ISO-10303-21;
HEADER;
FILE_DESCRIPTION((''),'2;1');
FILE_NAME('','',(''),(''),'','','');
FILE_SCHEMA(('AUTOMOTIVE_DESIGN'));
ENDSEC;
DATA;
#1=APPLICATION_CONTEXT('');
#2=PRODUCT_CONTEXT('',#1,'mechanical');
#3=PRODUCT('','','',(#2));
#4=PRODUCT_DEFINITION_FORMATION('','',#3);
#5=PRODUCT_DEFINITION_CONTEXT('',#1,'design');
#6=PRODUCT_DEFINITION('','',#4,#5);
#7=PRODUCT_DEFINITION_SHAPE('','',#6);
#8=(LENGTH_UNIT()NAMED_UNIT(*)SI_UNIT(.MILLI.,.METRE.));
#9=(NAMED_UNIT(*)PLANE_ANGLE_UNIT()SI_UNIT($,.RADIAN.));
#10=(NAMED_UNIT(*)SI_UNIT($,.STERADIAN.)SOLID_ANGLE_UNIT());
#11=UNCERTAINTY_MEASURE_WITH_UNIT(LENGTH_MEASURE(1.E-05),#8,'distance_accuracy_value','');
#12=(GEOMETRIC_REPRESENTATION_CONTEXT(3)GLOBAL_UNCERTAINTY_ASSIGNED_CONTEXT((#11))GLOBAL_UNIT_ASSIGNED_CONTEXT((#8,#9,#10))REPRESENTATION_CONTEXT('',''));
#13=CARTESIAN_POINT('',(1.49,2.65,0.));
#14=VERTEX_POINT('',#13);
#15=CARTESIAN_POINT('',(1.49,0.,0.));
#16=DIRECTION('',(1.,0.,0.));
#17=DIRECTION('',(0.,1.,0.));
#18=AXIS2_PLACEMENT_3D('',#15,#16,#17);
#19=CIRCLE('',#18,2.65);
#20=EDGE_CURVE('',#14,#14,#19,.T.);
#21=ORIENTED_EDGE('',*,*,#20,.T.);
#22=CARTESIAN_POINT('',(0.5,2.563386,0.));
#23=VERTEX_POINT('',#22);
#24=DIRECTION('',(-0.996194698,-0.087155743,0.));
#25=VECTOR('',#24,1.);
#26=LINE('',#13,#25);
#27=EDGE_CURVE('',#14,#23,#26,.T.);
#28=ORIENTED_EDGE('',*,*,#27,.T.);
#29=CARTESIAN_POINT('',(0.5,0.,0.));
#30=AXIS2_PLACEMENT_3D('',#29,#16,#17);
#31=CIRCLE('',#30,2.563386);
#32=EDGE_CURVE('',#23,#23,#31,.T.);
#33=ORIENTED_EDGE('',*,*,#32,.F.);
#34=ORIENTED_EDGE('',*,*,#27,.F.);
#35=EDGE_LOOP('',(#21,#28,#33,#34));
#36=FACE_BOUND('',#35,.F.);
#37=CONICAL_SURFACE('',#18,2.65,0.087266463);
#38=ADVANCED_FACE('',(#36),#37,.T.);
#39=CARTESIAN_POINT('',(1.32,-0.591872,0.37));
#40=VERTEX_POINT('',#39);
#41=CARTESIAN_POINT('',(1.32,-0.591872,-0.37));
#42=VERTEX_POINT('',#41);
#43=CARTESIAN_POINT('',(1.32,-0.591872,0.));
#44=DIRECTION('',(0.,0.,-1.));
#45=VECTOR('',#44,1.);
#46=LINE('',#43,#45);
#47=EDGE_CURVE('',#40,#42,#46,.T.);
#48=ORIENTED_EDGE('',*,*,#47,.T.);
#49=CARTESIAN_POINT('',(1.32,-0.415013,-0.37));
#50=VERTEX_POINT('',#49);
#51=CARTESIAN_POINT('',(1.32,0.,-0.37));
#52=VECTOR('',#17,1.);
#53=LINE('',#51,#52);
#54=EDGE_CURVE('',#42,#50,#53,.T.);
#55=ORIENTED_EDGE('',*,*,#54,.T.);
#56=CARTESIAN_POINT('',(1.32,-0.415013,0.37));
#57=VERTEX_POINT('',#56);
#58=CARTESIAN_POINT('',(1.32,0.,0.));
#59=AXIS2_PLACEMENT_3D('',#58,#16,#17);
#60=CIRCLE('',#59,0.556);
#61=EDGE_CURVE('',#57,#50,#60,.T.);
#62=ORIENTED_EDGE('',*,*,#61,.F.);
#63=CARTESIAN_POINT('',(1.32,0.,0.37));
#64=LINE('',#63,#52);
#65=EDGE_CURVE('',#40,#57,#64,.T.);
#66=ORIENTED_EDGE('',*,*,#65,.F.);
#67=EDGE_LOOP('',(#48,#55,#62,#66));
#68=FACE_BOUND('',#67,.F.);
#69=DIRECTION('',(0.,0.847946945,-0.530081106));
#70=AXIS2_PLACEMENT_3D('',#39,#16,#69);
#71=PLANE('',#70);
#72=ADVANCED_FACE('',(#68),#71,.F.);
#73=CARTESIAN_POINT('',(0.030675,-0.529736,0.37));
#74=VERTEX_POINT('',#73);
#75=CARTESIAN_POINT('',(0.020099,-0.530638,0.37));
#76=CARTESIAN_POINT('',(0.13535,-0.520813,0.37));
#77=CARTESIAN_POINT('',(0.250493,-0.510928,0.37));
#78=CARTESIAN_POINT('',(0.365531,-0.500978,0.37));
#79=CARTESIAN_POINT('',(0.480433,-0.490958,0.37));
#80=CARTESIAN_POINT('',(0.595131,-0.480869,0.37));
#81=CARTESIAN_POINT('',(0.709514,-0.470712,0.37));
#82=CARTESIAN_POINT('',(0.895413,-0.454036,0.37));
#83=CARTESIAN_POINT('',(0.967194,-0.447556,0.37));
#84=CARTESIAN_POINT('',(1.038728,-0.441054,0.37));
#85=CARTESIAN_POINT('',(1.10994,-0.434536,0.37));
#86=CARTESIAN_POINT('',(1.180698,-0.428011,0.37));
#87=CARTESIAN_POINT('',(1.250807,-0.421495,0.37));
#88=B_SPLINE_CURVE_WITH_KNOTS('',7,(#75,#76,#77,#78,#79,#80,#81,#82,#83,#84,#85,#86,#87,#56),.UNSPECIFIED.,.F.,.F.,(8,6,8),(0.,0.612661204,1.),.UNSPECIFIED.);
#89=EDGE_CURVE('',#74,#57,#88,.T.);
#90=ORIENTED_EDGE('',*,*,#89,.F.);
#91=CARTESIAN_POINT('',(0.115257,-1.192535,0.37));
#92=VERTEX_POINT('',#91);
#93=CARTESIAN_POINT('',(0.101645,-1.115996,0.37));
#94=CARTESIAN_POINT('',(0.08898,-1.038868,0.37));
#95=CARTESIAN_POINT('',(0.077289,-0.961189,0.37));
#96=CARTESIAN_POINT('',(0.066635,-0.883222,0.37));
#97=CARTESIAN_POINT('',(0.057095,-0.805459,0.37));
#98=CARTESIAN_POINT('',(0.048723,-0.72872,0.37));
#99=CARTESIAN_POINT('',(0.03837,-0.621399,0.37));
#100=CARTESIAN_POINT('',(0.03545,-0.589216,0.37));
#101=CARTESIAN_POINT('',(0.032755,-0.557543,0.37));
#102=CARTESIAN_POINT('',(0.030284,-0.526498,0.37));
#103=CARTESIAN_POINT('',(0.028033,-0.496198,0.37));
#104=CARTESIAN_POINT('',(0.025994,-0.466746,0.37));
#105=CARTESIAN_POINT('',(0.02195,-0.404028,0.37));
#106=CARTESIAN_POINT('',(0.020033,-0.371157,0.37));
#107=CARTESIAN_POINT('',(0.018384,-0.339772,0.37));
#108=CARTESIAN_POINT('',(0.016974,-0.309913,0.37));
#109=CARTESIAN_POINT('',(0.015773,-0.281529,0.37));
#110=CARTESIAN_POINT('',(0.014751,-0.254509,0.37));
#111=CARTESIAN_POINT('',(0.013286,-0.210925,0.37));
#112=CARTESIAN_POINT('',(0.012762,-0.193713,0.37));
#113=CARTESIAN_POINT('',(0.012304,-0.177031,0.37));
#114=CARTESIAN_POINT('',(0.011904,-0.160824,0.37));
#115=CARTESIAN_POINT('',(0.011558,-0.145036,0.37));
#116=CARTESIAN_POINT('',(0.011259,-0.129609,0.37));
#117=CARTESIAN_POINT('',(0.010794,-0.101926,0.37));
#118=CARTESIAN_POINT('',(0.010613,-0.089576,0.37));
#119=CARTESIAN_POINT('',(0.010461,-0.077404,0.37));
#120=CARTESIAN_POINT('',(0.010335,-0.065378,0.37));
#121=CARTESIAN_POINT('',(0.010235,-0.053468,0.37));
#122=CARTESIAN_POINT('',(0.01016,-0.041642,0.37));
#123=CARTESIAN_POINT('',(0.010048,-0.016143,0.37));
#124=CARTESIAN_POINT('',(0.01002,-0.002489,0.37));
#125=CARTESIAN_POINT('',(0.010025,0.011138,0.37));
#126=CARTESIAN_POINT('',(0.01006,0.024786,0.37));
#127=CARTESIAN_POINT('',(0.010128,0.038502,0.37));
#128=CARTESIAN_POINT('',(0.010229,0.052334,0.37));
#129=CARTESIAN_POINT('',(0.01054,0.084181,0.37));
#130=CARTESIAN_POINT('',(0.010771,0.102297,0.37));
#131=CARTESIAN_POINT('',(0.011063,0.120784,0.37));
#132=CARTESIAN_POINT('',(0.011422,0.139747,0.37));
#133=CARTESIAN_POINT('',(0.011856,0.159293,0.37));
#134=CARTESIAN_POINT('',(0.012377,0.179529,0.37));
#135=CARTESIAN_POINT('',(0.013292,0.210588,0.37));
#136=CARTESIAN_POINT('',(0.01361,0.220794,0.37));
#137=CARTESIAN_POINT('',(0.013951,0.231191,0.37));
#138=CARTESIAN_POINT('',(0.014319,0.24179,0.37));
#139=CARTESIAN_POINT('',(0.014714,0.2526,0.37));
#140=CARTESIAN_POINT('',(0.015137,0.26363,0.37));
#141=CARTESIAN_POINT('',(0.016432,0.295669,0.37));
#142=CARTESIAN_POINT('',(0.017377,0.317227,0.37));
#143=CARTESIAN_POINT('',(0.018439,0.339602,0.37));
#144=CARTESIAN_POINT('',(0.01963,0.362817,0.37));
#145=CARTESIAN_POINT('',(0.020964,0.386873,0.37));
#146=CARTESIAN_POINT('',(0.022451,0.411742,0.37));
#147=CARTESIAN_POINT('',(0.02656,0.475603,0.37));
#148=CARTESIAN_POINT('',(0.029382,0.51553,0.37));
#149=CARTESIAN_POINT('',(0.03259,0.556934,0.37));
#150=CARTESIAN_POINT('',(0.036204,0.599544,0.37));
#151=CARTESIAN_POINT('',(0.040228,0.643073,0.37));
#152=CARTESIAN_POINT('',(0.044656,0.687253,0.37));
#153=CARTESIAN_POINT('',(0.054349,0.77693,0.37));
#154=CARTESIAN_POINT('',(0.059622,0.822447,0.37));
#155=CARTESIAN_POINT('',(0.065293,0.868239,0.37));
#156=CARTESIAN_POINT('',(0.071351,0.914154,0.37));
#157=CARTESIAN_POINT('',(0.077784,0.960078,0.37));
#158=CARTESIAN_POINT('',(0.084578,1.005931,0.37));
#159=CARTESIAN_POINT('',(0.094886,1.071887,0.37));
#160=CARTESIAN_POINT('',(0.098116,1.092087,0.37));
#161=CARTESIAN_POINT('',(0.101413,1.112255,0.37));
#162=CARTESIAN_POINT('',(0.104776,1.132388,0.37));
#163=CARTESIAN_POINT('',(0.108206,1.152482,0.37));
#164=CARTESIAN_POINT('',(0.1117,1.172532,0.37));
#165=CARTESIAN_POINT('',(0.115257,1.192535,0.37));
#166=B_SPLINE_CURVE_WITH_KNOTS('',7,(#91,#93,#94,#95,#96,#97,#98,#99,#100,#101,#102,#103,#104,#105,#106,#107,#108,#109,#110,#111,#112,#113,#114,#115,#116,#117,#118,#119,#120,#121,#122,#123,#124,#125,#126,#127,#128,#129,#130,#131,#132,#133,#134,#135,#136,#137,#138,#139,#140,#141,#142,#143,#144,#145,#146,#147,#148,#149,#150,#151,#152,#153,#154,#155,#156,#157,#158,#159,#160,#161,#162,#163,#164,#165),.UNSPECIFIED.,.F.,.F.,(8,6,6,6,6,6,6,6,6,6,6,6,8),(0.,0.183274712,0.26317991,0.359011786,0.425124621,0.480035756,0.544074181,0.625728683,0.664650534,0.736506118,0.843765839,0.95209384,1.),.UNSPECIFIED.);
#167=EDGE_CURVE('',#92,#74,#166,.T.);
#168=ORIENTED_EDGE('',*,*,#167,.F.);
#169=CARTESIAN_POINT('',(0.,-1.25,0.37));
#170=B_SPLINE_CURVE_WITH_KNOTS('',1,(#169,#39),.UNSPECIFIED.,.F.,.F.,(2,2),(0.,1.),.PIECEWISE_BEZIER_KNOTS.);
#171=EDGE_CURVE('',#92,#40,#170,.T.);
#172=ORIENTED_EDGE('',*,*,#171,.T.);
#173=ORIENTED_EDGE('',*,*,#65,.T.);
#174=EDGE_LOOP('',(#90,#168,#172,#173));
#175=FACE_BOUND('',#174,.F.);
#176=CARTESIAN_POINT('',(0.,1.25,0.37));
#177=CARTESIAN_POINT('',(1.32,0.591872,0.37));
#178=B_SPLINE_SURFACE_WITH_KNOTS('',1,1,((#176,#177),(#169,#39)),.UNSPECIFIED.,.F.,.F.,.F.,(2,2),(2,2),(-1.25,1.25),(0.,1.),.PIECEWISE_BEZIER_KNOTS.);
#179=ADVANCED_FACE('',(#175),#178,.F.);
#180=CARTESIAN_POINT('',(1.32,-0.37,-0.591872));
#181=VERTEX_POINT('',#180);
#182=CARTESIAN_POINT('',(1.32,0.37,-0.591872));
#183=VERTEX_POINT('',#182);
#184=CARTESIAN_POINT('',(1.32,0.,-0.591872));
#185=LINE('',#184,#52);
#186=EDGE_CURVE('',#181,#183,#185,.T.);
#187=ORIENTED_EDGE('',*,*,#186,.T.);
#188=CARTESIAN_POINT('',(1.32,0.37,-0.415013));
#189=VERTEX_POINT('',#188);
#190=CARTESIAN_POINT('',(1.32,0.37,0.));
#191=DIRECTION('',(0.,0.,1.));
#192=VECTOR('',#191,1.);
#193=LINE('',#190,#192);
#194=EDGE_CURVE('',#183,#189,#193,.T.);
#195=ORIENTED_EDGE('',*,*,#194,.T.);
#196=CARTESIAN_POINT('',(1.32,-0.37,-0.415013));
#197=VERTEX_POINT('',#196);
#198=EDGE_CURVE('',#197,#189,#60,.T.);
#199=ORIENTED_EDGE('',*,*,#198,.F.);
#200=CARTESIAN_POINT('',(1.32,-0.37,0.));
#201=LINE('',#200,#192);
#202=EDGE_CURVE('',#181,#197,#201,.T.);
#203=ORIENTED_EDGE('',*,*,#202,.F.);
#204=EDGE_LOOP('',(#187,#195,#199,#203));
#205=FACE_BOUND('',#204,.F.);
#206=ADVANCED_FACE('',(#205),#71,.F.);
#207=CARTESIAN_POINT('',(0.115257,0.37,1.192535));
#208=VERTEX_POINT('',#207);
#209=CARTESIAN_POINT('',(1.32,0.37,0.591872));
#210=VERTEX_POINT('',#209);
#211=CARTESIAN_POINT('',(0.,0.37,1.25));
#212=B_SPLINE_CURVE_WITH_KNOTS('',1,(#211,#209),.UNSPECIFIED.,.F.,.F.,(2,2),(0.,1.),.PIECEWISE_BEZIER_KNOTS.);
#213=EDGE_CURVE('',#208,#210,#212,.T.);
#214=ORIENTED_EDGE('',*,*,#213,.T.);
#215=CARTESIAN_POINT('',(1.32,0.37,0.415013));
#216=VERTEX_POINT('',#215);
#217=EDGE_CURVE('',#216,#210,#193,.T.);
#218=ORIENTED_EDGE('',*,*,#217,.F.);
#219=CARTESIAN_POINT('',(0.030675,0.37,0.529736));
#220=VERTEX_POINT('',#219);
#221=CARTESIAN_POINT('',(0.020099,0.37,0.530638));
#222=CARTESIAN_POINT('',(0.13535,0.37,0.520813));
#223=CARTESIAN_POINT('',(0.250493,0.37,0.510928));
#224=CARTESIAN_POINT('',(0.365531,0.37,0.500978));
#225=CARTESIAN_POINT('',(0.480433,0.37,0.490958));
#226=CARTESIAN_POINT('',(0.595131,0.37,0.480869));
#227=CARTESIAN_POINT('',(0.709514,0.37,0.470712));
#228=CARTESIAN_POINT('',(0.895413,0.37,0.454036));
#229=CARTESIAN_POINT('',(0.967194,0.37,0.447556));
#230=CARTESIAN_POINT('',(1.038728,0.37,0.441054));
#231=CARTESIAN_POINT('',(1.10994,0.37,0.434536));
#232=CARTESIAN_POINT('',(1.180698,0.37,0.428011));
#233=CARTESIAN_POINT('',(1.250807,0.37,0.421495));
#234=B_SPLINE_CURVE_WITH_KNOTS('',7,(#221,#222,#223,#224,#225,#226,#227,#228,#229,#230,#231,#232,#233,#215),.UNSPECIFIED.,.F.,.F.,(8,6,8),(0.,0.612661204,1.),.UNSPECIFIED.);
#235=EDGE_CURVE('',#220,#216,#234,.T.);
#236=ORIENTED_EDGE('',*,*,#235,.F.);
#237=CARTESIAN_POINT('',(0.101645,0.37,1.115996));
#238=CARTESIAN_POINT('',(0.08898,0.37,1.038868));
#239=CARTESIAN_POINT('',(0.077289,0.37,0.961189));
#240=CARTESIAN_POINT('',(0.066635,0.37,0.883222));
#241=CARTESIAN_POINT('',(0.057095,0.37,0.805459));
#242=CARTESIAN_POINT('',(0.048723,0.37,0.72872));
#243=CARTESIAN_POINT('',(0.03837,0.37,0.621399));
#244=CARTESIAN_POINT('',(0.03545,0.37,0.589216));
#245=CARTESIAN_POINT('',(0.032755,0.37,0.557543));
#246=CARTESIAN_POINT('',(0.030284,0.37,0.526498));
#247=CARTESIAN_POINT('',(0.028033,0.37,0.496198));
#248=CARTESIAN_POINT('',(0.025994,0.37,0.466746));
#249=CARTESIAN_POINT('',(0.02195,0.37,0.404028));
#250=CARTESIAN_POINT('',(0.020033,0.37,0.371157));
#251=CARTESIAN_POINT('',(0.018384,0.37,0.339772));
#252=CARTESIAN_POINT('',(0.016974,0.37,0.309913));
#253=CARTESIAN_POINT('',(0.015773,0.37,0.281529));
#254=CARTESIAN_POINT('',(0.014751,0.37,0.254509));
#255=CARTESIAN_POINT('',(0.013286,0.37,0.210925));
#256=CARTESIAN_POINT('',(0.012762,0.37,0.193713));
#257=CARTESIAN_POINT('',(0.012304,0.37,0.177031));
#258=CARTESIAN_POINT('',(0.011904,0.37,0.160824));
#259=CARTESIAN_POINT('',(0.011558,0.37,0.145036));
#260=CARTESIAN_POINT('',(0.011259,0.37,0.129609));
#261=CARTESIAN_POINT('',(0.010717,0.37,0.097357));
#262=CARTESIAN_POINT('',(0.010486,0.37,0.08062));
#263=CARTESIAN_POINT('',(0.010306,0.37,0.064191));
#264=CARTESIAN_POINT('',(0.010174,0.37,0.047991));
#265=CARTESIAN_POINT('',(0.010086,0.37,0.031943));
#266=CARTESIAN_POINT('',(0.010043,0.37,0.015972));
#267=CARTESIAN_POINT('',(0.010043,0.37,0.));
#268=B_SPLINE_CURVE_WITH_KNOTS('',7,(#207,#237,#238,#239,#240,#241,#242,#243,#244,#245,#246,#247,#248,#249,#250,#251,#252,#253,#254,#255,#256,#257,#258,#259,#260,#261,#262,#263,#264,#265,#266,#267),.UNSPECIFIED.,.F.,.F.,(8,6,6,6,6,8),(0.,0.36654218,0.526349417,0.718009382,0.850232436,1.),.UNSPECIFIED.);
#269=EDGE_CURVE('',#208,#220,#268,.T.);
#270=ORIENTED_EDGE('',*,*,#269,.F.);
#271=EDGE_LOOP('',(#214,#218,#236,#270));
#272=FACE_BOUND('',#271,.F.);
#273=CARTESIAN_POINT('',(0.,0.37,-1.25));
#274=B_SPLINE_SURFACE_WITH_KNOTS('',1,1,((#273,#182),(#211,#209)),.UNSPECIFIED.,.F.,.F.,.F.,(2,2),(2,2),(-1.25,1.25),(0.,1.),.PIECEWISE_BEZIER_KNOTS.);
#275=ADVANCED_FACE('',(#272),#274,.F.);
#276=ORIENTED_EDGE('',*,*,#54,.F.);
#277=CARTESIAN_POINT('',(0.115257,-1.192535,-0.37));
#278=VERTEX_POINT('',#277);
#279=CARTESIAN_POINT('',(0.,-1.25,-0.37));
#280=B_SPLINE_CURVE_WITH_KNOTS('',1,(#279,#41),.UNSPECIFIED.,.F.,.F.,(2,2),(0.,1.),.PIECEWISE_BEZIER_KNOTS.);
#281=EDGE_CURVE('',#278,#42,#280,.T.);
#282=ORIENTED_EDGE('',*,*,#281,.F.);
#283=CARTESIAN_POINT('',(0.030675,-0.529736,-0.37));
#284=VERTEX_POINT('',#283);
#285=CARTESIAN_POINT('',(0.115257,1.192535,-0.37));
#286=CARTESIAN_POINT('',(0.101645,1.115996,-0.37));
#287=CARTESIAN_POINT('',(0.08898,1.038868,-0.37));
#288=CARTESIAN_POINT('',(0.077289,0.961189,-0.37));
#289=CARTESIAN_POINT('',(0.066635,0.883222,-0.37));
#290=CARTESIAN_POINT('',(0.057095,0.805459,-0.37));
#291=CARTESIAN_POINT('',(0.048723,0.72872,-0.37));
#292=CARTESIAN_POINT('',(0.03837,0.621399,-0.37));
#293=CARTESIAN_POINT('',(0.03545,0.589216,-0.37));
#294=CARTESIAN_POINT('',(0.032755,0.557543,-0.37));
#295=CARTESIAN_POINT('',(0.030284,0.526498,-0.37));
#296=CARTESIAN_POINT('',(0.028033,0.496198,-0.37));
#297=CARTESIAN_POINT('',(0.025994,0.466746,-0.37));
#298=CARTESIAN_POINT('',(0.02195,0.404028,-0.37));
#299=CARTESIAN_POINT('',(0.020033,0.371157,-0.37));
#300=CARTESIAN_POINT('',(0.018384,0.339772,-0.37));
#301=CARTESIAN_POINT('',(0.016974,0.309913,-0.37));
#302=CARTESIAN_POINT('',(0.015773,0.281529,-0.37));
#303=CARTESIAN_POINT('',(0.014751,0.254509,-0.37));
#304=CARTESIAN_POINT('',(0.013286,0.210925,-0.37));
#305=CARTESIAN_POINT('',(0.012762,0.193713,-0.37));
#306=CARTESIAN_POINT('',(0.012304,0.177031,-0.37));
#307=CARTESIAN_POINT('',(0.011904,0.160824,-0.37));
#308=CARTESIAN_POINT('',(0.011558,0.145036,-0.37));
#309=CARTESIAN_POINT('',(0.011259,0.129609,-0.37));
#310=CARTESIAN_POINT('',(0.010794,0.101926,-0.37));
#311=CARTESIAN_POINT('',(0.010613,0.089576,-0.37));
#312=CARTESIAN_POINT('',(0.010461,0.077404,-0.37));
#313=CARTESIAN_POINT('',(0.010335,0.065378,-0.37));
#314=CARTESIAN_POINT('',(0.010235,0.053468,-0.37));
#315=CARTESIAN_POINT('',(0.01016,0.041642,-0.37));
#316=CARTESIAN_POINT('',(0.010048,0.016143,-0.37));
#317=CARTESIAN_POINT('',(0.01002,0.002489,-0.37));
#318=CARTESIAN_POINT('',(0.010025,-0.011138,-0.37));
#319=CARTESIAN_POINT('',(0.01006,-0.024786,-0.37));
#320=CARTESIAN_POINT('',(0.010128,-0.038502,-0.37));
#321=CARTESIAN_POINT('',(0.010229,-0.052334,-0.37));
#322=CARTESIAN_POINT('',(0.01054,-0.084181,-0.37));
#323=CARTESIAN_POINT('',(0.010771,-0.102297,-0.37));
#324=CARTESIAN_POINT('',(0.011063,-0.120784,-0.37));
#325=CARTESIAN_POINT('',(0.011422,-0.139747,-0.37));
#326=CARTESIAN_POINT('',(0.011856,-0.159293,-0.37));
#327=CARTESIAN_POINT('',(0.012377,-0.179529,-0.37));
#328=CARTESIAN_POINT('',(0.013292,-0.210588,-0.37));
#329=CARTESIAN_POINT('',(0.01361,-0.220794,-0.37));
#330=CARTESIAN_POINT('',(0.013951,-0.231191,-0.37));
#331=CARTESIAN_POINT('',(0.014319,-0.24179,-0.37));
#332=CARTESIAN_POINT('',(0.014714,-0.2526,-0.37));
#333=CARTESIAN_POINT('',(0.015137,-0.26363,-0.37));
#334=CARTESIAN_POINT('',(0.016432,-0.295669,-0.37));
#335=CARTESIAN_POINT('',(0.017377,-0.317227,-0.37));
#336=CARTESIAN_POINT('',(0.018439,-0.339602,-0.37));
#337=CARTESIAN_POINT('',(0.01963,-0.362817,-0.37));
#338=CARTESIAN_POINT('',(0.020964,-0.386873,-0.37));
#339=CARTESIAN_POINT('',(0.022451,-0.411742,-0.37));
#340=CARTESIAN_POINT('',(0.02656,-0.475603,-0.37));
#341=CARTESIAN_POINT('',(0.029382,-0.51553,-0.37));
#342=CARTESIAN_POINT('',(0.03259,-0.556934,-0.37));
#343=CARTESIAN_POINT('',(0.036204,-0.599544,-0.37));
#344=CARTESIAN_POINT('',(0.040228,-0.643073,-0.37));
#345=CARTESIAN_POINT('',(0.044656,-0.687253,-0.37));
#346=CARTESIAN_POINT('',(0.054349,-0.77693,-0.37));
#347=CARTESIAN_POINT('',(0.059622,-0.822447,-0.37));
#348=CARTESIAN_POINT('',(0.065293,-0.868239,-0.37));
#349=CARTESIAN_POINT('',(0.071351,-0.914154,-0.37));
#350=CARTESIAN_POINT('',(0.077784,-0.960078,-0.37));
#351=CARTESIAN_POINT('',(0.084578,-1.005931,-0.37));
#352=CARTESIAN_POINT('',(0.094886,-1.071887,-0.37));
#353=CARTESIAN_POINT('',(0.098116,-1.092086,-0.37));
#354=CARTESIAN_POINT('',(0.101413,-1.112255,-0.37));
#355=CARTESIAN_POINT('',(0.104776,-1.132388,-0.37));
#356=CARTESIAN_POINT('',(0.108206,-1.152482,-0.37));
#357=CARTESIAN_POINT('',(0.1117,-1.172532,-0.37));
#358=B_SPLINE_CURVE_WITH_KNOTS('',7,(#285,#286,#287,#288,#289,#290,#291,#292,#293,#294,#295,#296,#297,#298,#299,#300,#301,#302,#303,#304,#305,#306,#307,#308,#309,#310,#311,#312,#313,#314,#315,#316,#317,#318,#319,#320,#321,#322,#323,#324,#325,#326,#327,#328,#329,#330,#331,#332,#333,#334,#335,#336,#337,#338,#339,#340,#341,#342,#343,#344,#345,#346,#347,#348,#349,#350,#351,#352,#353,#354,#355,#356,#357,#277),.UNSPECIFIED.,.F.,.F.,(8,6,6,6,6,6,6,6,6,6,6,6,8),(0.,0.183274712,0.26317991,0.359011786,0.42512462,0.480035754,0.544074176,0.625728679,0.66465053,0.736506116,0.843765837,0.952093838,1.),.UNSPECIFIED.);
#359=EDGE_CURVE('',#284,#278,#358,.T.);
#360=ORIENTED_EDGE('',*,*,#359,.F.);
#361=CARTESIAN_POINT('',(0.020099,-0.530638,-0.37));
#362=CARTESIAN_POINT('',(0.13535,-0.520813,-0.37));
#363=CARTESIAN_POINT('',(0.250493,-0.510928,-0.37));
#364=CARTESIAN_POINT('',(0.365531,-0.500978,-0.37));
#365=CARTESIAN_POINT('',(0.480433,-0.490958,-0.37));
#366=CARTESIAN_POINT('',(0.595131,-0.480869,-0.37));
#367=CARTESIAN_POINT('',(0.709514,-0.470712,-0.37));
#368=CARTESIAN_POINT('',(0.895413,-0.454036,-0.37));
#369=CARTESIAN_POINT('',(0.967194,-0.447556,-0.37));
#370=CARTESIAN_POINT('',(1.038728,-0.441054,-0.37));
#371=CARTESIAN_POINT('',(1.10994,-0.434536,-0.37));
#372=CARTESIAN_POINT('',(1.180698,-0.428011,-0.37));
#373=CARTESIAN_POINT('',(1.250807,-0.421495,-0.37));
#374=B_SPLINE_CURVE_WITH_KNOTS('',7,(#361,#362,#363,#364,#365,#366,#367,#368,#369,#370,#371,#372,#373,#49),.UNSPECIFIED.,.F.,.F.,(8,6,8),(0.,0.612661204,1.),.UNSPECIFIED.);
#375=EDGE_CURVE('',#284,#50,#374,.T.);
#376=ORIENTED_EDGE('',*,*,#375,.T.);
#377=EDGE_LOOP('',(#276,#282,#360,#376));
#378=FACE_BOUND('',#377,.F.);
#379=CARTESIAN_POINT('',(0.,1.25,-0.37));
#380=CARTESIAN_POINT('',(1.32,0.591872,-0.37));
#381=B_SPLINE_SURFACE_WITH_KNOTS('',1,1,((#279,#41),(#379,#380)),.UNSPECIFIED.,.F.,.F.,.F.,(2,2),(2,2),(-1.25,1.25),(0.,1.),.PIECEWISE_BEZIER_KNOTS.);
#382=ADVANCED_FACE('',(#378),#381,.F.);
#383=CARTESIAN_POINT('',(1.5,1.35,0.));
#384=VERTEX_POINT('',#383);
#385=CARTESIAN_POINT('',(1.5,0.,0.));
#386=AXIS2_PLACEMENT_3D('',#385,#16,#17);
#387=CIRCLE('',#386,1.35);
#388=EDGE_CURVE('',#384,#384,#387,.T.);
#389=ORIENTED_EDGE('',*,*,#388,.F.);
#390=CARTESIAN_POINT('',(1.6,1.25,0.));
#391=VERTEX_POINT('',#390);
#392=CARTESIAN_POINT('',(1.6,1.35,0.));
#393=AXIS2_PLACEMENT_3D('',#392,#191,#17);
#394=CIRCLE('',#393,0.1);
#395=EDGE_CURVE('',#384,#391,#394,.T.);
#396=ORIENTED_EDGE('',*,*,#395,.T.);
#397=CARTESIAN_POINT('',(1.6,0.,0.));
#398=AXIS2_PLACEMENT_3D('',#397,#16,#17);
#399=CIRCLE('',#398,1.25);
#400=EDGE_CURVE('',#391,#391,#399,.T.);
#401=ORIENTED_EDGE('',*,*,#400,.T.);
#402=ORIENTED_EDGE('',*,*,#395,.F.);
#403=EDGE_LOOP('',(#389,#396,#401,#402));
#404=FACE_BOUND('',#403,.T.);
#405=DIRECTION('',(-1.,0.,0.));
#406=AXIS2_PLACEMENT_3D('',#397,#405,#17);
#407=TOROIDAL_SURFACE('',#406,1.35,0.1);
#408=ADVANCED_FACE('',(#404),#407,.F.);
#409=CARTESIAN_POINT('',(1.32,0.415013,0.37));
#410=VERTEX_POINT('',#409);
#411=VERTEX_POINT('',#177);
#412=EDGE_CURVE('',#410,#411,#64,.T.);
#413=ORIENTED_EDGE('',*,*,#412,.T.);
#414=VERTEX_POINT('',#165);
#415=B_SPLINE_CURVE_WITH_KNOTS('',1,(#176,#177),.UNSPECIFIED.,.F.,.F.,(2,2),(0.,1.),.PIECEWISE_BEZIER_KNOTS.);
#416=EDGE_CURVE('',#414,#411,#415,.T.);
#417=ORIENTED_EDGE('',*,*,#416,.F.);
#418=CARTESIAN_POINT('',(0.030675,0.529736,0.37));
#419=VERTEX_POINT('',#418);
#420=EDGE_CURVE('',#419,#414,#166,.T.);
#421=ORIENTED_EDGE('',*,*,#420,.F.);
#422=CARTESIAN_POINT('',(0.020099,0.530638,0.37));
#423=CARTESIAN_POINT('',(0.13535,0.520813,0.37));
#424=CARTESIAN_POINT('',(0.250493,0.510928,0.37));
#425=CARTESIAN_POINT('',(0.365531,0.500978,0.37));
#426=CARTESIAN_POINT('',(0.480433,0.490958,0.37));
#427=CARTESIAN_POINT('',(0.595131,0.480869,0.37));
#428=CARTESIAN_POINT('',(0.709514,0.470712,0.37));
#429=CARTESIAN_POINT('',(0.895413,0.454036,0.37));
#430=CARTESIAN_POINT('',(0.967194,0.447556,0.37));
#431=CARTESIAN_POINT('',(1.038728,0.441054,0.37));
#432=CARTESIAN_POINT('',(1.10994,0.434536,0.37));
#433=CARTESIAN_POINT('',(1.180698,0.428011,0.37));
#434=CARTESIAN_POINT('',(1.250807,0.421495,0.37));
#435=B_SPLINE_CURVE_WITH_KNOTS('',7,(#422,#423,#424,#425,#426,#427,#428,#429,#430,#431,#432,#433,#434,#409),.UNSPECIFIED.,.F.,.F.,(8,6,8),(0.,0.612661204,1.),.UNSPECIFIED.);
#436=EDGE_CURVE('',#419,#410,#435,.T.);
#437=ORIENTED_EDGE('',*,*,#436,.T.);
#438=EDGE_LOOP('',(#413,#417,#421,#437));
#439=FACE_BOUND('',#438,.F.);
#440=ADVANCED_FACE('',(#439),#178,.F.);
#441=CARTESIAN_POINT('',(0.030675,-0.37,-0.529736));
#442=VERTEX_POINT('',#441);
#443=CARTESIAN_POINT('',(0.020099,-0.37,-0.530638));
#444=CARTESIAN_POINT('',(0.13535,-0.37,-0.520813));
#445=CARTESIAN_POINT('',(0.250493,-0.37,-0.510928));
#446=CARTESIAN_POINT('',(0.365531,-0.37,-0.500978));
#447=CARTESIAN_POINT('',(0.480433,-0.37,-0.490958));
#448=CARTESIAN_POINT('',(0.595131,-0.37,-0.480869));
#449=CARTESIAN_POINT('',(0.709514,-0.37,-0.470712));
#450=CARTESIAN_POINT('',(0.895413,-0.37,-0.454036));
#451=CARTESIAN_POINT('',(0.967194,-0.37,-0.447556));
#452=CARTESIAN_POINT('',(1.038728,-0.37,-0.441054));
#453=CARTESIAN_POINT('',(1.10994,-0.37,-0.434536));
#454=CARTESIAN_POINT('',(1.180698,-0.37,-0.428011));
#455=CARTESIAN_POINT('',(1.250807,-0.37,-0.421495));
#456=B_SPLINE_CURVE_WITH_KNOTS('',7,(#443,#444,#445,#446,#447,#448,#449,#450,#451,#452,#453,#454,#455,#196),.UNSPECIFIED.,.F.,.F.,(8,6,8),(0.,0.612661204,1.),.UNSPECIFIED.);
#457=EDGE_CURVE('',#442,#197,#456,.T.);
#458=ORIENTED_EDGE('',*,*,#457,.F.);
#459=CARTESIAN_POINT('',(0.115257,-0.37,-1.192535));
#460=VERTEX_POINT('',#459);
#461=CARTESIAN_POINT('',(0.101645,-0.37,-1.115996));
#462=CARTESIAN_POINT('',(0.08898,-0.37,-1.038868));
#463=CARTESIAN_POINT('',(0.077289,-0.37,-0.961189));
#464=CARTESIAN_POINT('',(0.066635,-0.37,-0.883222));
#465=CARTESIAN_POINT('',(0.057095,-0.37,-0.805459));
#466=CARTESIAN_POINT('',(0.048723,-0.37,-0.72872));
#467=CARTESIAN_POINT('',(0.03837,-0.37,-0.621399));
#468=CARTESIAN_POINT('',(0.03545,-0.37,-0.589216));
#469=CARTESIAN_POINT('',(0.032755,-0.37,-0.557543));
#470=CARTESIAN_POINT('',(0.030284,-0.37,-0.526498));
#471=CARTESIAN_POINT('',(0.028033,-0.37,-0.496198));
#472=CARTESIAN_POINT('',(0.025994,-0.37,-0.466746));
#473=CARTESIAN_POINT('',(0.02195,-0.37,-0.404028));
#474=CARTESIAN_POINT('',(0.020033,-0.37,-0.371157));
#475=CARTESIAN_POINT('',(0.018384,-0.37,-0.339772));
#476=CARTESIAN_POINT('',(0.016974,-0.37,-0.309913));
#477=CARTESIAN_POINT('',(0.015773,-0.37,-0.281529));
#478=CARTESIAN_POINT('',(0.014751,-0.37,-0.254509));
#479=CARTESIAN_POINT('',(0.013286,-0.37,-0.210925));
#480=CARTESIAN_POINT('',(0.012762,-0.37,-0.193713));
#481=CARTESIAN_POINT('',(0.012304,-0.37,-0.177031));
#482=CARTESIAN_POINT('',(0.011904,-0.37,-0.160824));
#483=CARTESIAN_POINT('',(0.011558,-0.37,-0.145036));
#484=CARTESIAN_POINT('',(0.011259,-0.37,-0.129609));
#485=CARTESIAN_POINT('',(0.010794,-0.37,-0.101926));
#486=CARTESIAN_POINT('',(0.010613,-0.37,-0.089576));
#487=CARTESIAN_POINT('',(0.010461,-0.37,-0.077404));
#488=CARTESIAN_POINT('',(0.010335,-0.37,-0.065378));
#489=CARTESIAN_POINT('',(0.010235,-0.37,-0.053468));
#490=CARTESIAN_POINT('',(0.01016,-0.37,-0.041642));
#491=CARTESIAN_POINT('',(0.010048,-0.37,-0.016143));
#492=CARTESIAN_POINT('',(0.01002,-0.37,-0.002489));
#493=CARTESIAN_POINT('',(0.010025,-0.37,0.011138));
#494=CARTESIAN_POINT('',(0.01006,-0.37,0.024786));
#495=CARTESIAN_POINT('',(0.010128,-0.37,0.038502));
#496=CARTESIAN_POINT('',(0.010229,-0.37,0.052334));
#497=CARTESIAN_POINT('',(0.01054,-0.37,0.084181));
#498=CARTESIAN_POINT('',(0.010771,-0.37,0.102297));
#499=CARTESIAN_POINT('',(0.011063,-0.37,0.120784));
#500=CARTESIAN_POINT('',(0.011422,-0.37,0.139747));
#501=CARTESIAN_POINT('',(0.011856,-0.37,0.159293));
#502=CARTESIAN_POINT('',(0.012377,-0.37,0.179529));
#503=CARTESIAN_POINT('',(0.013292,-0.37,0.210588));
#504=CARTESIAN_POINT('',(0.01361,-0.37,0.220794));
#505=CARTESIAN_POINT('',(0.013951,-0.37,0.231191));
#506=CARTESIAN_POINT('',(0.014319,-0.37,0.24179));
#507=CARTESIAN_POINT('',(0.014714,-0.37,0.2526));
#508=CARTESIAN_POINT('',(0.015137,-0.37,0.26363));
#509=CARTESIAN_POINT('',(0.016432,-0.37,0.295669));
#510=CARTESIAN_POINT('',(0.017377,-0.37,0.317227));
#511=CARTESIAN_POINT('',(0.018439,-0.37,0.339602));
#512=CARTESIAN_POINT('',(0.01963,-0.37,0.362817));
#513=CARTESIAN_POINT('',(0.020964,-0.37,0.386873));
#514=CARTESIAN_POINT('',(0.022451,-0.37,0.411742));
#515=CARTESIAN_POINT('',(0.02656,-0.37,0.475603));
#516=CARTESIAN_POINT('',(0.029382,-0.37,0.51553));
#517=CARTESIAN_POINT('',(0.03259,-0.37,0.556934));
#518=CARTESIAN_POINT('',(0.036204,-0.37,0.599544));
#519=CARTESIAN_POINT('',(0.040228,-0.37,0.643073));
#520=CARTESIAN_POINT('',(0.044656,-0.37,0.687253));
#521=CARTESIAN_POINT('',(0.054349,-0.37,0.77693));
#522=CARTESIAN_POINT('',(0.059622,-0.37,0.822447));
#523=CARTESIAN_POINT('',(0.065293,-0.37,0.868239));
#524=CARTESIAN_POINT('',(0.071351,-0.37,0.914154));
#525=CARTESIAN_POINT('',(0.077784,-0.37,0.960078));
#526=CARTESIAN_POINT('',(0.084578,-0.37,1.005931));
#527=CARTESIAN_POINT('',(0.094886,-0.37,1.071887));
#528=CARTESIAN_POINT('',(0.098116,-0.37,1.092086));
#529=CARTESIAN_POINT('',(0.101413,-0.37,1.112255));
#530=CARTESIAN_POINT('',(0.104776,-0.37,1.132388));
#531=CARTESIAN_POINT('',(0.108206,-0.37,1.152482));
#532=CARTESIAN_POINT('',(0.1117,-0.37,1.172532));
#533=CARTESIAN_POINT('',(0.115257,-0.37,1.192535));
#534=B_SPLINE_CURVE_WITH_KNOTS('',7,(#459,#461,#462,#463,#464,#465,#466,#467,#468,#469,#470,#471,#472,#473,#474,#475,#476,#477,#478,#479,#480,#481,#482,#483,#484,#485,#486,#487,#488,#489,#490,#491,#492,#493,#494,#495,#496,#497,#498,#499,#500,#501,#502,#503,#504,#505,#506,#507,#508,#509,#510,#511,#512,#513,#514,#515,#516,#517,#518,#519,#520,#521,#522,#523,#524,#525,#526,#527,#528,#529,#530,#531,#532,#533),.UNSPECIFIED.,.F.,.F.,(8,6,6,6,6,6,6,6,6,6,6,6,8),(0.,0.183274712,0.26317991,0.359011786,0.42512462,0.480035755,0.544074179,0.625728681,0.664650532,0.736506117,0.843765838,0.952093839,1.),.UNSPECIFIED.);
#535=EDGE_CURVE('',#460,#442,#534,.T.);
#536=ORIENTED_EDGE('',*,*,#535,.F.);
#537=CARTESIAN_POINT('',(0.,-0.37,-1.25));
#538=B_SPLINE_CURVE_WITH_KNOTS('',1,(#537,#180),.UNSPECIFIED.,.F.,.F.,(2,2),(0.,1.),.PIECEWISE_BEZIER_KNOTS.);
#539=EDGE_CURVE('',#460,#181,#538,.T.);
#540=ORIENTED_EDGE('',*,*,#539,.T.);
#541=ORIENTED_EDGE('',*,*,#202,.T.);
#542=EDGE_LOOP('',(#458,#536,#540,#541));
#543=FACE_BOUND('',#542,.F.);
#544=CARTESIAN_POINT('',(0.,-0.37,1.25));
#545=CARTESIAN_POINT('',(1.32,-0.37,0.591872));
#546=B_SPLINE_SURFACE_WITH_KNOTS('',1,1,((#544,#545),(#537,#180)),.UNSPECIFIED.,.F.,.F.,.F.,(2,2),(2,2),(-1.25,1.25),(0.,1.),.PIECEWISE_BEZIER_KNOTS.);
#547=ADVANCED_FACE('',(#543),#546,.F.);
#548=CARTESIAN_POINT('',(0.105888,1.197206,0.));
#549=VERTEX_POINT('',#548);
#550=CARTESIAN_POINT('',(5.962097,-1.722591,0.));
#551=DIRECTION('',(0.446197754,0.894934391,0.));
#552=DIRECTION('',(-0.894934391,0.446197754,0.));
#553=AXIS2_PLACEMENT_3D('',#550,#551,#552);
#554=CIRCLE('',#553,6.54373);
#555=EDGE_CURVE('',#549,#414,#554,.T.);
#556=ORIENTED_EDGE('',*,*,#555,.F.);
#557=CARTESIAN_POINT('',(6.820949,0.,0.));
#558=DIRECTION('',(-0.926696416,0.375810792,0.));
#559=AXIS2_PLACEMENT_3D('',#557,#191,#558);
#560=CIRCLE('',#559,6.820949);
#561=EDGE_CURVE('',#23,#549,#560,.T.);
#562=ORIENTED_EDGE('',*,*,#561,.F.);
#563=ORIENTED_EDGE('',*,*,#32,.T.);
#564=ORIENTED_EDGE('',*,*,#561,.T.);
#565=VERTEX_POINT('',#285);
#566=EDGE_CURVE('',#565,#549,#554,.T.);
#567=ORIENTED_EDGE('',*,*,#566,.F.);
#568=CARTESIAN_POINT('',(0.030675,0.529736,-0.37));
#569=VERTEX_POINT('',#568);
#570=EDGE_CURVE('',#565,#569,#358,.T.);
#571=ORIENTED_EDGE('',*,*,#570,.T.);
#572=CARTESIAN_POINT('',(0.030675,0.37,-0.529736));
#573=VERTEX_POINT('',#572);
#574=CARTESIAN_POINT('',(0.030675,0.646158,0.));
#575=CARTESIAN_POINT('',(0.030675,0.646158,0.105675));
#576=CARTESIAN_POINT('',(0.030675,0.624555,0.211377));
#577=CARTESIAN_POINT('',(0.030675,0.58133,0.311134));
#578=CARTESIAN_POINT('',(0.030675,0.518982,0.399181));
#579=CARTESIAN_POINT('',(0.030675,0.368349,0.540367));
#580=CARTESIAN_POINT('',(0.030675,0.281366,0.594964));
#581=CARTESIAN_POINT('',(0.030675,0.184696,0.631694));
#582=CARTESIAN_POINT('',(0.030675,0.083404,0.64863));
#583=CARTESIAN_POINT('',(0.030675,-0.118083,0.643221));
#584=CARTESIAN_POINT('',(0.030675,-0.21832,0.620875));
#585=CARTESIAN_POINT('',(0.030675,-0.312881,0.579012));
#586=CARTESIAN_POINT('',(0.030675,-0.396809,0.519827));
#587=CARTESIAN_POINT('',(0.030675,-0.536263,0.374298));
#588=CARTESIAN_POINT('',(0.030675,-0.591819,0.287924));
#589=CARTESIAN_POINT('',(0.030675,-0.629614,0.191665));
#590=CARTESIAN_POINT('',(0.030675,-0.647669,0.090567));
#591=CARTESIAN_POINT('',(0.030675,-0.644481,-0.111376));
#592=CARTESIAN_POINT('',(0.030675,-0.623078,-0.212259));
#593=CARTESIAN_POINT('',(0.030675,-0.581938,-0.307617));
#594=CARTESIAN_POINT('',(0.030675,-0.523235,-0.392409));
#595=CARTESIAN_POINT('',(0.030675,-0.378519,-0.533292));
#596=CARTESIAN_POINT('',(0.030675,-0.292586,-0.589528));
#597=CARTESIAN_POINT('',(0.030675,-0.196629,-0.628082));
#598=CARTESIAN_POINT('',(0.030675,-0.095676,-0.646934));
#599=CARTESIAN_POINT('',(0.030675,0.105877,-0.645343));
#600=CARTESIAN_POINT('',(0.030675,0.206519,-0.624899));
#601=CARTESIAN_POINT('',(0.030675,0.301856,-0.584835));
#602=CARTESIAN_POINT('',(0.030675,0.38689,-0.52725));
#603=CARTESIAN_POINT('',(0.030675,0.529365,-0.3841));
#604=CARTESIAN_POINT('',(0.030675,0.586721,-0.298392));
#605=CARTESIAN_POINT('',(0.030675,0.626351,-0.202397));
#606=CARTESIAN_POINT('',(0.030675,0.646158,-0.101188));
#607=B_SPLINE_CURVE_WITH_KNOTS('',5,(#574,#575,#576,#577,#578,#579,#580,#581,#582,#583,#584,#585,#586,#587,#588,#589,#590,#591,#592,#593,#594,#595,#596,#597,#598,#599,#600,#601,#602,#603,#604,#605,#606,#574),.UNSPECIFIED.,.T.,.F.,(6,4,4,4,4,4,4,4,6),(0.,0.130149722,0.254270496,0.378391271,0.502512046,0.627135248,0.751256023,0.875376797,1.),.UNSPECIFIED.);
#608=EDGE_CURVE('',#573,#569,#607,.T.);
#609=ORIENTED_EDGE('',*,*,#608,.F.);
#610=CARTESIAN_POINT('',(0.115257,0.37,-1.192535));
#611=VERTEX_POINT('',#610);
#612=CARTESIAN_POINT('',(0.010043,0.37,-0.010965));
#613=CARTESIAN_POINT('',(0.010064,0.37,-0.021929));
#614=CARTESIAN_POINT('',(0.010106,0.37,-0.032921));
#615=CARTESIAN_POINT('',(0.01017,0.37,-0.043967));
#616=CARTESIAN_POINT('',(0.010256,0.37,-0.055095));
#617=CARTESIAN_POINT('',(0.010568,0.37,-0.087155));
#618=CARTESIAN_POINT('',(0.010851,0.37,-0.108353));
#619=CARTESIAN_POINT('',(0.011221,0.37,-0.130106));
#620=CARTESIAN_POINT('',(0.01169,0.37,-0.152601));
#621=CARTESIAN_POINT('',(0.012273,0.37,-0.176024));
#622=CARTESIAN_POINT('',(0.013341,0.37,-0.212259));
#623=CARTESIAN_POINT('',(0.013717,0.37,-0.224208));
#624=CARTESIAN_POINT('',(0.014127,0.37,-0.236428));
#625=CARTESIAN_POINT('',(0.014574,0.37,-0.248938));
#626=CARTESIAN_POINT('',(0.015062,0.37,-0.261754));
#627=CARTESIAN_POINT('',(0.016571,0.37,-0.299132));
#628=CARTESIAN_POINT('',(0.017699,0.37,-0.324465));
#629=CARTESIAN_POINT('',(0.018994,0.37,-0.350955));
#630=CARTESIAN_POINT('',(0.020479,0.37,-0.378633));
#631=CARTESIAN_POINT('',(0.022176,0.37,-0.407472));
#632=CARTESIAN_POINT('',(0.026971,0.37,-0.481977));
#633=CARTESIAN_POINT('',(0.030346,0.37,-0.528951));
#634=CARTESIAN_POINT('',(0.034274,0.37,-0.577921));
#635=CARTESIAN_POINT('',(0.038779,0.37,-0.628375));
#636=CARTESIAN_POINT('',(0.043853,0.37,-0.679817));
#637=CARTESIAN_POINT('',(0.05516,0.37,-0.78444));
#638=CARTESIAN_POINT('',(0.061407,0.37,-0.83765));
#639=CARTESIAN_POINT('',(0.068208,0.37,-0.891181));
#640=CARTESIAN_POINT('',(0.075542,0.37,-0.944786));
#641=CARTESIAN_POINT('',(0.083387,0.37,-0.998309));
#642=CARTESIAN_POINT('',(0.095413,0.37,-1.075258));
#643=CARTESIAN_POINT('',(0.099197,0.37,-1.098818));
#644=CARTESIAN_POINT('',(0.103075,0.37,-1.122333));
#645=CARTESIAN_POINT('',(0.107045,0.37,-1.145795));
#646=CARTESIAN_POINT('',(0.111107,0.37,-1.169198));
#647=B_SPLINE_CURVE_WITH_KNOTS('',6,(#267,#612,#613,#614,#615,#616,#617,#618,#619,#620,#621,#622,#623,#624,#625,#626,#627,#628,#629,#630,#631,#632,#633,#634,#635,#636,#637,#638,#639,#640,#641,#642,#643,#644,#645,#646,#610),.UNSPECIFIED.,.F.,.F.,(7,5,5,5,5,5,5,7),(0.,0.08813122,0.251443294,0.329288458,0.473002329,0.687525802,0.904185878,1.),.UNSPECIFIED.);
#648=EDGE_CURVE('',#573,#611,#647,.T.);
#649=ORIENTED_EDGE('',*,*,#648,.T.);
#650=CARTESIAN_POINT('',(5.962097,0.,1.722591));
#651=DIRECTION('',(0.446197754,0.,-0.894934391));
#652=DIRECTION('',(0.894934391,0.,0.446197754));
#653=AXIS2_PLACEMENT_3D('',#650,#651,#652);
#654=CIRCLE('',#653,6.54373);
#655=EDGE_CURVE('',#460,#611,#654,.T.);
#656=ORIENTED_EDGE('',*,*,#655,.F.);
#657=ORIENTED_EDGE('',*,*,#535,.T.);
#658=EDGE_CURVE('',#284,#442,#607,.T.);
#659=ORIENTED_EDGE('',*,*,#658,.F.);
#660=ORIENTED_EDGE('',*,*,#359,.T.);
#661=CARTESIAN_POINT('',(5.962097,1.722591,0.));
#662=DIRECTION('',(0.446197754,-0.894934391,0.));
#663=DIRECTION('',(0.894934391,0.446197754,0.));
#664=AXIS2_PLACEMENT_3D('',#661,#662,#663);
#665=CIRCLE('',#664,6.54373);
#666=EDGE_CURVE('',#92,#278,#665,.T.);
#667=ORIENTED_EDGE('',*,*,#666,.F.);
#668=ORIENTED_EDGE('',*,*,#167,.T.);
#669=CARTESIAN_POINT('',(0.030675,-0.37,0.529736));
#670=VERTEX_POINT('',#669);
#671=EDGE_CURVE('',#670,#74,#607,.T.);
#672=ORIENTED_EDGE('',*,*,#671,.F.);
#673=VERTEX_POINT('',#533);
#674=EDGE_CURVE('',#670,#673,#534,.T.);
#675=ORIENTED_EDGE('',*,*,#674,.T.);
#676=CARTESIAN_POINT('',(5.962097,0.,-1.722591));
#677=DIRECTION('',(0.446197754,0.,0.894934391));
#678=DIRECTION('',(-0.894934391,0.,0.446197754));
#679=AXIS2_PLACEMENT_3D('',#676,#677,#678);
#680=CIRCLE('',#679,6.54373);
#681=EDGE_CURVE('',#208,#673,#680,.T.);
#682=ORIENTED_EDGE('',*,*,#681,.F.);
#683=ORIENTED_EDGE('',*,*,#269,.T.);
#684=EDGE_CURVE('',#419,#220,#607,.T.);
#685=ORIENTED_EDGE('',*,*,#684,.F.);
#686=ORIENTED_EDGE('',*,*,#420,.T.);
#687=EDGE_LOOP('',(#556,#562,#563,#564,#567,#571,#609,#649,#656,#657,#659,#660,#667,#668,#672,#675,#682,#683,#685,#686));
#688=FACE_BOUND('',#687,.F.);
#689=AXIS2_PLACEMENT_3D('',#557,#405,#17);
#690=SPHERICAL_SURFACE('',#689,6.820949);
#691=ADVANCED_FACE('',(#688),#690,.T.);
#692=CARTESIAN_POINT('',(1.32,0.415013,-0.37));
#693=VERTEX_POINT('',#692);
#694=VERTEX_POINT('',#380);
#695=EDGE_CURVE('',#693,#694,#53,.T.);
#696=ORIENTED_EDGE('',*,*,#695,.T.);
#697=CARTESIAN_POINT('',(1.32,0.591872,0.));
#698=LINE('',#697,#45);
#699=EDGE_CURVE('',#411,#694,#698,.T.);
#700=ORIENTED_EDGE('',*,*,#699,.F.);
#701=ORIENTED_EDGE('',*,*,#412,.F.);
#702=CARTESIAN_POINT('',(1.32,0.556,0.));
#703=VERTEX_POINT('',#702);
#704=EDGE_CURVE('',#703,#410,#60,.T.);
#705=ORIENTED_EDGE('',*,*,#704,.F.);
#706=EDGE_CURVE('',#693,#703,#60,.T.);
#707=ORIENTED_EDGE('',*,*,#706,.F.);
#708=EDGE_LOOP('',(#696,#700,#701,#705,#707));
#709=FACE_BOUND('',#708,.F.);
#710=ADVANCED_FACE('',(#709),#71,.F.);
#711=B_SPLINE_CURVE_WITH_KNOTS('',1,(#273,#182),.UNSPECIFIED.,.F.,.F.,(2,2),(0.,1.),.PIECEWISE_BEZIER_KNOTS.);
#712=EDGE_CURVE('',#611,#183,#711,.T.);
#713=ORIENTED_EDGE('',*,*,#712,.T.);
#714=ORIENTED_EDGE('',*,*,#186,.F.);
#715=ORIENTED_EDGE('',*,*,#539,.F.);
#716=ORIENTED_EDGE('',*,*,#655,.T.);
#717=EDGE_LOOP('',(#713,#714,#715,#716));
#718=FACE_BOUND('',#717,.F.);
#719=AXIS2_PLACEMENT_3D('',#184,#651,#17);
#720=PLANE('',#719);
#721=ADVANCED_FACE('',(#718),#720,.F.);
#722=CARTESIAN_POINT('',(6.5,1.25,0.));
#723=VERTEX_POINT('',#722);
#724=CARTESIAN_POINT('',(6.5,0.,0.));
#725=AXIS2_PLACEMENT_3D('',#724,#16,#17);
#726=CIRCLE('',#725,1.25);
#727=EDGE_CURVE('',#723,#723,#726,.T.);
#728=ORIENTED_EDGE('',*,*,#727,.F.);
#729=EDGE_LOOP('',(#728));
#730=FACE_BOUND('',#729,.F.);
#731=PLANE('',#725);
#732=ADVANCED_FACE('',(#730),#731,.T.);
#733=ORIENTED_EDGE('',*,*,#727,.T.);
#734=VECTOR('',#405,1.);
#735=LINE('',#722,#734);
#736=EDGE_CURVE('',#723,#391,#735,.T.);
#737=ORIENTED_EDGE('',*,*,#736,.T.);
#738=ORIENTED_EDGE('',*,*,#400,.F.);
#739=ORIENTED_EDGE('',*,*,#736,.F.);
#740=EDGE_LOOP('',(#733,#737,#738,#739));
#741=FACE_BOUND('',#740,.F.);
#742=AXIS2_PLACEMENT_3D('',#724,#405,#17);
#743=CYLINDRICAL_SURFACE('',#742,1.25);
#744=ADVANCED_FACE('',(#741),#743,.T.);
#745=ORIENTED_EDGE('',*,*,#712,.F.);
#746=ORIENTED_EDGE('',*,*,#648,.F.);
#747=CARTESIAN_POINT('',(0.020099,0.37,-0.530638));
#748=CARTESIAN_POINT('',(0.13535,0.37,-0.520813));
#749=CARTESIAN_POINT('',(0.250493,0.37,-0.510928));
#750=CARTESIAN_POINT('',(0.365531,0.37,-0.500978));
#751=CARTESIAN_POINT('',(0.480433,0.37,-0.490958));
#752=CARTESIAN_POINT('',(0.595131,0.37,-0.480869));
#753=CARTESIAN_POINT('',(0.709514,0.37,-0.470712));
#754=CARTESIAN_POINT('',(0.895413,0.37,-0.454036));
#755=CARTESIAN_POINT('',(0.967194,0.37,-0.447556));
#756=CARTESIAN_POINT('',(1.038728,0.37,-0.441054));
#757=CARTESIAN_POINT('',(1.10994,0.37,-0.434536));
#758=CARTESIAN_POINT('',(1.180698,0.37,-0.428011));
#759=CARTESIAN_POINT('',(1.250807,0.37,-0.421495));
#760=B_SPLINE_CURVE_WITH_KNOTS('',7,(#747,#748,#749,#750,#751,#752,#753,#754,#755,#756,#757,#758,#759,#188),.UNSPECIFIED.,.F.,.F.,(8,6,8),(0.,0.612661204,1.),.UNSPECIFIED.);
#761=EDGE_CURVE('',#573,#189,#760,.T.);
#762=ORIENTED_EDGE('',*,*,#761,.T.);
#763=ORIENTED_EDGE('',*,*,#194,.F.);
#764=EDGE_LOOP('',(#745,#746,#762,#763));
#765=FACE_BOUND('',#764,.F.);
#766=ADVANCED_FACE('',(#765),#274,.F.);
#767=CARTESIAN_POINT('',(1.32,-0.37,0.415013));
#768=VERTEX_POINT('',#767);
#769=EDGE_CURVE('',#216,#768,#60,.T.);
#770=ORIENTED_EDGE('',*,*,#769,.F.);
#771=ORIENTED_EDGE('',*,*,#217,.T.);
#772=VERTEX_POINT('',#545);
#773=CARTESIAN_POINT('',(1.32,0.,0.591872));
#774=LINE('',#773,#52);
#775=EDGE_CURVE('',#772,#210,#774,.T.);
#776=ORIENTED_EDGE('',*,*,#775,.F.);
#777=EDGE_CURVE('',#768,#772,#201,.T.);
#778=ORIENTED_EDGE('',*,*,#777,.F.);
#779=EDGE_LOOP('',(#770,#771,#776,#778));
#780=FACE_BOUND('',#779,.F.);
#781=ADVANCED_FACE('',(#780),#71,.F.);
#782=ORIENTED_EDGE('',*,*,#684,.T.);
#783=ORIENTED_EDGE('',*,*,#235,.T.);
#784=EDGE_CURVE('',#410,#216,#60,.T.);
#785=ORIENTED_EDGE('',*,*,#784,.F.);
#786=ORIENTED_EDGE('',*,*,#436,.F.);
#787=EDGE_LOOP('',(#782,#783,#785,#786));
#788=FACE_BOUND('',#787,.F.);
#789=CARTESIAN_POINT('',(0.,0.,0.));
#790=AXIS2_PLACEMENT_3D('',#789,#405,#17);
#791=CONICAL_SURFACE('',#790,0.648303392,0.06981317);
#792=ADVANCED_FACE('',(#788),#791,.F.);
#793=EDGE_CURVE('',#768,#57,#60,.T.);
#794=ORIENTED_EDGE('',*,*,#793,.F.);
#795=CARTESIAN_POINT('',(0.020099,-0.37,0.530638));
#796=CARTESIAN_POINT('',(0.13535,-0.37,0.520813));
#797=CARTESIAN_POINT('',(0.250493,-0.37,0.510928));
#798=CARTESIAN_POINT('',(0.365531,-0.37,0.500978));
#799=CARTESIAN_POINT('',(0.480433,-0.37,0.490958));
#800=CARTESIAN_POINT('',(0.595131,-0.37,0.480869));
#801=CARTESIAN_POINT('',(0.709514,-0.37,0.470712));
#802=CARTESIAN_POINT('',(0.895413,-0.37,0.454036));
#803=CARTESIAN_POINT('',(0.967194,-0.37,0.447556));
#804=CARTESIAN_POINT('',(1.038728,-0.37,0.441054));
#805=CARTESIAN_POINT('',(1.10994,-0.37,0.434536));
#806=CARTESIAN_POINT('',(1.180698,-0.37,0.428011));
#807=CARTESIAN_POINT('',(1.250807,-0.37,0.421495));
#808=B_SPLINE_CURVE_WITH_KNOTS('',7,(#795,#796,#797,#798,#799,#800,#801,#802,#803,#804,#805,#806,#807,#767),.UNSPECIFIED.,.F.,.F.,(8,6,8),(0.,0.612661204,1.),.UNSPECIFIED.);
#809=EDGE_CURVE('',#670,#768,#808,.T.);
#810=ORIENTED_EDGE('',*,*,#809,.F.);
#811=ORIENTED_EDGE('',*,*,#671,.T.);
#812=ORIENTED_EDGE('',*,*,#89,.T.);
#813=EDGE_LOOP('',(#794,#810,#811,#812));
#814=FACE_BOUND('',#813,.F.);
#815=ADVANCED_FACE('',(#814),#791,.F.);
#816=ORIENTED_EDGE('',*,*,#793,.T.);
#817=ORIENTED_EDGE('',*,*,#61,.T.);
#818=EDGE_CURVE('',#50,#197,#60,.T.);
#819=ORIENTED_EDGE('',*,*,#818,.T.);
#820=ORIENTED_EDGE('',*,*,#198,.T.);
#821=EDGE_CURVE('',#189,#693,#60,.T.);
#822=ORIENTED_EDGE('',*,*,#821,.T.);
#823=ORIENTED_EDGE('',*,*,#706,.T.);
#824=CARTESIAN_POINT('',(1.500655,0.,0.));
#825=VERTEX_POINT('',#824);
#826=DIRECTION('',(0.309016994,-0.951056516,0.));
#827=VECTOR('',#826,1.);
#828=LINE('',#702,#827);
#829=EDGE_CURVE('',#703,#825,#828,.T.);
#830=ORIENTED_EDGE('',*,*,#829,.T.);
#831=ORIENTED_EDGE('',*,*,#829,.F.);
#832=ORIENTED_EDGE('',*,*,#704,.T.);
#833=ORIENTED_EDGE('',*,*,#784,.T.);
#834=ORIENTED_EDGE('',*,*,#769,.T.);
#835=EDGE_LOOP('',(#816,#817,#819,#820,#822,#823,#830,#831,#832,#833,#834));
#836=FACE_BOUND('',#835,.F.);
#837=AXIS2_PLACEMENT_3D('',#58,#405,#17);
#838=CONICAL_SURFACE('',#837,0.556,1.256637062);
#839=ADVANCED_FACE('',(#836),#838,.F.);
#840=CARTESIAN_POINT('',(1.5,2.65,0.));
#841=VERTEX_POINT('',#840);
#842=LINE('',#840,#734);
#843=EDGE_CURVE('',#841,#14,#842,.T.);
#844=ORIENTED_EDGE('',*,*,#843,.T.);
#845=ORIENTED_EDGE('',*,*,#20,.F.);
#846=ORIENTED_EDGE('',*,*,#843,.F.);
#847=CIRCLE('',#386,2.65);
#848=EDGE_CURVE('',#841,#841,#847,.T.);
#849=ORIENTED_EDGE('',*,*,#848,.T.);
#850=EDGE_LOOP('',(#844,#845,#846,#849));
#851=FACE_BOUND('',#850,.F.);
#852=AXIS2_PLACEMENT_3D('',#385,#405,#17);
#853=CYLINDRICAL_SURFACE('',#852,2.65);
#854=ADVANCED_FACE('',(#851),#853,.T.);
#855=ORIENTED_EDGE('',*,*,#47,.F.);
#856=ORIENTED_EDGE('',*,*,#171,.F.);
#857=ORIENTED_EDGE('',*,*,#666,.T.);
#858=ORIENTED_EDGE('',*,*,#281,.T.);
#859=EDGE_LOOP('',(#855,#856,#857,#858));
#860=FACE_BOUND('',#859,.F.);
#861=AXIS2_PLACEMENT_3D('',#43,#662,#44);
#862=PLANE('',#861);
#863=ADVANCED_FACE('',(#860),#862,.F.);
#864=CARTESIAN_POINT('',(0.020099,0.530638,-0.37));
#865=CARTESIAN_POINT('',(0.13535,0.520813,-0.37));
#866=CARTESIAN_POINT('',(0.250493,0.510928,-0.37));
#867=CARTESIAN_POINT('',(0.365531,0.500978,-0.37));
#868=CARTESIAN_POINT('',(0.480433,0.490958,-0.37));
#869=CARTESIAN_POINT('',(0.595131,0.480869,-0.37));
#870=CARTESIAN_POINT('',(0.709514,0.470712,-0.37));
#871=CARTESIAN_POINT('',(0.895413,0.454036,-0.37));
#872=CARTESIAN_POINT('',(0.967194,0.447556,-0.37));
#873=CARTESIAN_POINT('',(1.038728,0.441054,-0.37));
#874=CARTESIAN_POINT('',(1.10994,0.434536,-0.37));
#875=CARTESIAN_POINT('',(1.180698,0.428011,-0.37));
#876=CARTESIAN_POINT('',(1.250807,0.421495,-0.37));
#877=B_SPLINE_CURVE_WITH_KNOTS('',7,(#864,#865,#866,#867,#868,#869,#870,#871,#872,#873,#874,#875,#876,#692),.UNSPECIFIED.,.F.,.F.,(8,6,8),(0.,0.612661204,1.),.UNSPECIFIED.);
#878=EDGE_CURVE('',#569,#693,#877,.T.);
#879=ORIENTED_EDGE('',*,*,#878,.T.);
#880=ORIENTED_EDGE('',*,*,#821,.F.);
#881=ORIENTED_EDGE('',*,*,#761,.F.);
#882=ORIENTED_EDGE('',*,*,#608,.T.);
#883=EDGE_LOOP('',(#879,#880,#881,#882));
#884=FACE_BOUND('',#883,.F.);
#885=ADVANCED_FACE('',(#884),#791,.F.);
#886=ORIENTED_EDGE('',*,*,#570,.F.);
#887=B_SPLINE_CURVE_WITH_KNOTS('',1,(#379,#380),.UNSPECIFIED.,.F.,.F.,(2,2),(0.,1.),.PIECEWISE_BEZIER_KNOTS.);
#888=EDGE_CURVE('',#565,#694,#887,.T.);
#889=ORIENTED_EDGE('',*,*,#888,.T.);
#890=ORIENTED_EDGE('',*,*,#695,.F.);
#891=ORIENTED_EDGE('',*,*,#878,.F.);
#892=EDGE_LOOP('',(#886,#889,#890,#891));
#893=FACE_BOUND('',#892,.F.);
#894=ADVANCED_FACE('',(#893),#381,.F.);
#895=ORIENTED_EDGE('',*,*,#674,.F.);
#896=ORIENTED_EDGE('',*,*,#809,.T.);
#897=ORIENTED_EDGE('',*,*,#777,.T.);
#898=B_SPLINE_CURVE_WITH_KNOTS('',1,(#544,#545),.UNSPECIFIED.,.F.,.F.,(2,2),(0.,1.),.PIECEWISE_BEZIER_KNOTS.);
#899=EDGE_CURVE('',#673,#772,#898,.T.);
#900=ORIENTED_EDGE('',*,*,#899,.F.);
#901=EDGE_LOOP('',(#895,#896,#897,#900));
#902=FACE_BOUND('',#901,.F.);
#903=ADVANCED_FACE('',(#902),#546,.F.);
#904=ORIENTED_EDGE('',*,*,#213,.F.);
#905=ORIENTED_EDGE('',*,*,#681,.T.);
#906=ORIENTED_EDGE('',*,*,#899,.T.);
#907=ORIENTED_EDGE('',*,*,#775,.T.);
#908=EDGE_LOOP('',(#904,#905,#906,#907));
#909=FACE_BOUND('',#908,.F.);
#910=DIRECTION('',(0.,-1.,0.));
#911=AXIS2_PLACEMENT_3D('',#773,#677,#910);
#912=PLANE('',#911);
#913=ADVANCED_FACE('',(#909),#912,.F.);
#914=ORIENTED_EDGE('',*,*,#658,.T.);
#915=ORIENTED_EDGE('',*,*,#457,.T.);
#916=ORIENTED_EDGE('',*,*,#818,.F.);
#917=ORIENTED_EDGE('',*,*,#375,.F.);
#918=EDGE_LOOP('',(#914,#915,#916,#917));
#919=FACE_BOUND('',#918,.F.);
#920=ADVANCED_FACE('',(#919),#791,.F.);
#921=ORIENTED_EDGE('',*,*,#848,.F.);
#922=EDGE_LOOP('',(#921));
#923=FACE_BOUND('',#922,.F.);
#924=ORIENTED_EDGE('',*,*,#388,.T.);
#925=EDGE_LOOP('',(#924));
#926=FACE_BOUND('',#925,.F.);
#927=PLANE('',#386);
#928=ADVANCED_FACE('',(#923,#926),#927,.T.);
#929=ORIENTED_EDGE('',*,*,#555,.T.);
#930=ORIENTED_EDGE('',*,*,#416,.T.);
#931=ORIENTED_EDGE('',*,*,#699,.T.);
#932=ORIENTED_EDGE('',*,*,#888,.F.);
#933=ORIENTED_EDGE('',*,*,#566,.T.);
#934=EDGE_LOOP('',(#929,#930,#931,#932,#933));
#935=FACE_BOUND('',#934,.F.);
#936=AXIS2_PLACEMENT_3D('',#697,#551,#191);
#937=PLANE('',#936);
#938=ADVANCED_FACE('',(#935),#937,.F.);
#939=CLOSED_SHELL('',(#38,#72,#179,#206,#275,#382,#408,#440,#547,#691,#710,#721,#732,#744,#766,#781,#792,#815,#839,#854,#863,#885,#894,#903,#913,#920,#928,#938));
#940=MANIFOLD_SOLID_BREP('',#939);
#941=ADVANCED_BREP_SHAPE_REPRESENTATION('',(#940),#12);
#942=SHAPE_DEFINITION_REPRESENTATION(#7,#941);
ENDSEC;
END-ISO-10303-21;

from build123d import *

# Parameters (mm, degrees)
FILLET1_R    = 0.1
SKETCH3_W    = 0.74
SKETCH3_H    = 2.5
SKETCH4_W    = 0.74
SKETCH4_H    = 1.183744774
RECPAT_COUNT = 2
RECPAT_ANGLE = 90


with BuildPart() as part:
    # BodySke → Base-Revolve (revolve)
    with BuildSketch(Plane.XY):
        with BuildLine():
            Line((1.5, 1.25), (1.5, 2.65))
            Line((1.5, 2.65), (1.49, 2.65))
            Line((1.49, 2.65), (0.5, 2.563386223))
            ThreePointArc((0.5, 2.563386223), (0.126166852, 1.305847323), (0, 0))
            Line((0, 0), (6.5, 0))
            Line((6.5, 0), (6.5, 1.25))
            Line((6.5, 1.25), (1.5, 1.25))
        make_face()
    revolve(axis=Axis((-25.4, 0, 0), (1, 0, 0)))

    # Fillet1
    fillet1_edges = [part.edges().sort_by_distance(p)[0] for p in [
        (1.5, -1.25, 0),
    ]]
    fillet(fillet1_edges, radius=FILLET1_R)

    # Sketch3 → Recess section 0
    with BuildSketch(Plane(origin=(0, 0, 0), x_dir=(0, 0, -1), z_dir=(1, 0, 0))):
        Rectangle(SKETCH3_W, SKETCH3_H)
    # Sketch4 → Recess section 1
    with BuildSketch(Plane(origin=(1.32, 0, 0), x_dir=(0, 0, -1), z_dir=(1, 0, 0))):
        Rectangle(SKETCH4_W, SKETCH4_H)
    recess = loft(mode=Mode.SUBTRACT)

    # RecPat: Recess ×2 about axis
    recpat_axis = Axis((0, 0, 0), (1, 0, 0))
    for i in range(1, RECPAT_COUNT):
        add(recess.rotate(recpat_axis, i * RECPAT_ANGLE / (RECPAT_COUNT - 1)), mode=Mode.SUBTRACT)

    # RecCorSke → RecessCore (revolve, cut)
    with BuildSketch(Plane.XY):
        Polygon((0, 0), (0, 0.648303392), (1.32, 0.556), (1.500655351, 0), align=None)
    revolve(axis=Axis((-3.175, 0, 0), (1, 0, 0)), mode=Mode.SUBTRACT)


solid = part.part
